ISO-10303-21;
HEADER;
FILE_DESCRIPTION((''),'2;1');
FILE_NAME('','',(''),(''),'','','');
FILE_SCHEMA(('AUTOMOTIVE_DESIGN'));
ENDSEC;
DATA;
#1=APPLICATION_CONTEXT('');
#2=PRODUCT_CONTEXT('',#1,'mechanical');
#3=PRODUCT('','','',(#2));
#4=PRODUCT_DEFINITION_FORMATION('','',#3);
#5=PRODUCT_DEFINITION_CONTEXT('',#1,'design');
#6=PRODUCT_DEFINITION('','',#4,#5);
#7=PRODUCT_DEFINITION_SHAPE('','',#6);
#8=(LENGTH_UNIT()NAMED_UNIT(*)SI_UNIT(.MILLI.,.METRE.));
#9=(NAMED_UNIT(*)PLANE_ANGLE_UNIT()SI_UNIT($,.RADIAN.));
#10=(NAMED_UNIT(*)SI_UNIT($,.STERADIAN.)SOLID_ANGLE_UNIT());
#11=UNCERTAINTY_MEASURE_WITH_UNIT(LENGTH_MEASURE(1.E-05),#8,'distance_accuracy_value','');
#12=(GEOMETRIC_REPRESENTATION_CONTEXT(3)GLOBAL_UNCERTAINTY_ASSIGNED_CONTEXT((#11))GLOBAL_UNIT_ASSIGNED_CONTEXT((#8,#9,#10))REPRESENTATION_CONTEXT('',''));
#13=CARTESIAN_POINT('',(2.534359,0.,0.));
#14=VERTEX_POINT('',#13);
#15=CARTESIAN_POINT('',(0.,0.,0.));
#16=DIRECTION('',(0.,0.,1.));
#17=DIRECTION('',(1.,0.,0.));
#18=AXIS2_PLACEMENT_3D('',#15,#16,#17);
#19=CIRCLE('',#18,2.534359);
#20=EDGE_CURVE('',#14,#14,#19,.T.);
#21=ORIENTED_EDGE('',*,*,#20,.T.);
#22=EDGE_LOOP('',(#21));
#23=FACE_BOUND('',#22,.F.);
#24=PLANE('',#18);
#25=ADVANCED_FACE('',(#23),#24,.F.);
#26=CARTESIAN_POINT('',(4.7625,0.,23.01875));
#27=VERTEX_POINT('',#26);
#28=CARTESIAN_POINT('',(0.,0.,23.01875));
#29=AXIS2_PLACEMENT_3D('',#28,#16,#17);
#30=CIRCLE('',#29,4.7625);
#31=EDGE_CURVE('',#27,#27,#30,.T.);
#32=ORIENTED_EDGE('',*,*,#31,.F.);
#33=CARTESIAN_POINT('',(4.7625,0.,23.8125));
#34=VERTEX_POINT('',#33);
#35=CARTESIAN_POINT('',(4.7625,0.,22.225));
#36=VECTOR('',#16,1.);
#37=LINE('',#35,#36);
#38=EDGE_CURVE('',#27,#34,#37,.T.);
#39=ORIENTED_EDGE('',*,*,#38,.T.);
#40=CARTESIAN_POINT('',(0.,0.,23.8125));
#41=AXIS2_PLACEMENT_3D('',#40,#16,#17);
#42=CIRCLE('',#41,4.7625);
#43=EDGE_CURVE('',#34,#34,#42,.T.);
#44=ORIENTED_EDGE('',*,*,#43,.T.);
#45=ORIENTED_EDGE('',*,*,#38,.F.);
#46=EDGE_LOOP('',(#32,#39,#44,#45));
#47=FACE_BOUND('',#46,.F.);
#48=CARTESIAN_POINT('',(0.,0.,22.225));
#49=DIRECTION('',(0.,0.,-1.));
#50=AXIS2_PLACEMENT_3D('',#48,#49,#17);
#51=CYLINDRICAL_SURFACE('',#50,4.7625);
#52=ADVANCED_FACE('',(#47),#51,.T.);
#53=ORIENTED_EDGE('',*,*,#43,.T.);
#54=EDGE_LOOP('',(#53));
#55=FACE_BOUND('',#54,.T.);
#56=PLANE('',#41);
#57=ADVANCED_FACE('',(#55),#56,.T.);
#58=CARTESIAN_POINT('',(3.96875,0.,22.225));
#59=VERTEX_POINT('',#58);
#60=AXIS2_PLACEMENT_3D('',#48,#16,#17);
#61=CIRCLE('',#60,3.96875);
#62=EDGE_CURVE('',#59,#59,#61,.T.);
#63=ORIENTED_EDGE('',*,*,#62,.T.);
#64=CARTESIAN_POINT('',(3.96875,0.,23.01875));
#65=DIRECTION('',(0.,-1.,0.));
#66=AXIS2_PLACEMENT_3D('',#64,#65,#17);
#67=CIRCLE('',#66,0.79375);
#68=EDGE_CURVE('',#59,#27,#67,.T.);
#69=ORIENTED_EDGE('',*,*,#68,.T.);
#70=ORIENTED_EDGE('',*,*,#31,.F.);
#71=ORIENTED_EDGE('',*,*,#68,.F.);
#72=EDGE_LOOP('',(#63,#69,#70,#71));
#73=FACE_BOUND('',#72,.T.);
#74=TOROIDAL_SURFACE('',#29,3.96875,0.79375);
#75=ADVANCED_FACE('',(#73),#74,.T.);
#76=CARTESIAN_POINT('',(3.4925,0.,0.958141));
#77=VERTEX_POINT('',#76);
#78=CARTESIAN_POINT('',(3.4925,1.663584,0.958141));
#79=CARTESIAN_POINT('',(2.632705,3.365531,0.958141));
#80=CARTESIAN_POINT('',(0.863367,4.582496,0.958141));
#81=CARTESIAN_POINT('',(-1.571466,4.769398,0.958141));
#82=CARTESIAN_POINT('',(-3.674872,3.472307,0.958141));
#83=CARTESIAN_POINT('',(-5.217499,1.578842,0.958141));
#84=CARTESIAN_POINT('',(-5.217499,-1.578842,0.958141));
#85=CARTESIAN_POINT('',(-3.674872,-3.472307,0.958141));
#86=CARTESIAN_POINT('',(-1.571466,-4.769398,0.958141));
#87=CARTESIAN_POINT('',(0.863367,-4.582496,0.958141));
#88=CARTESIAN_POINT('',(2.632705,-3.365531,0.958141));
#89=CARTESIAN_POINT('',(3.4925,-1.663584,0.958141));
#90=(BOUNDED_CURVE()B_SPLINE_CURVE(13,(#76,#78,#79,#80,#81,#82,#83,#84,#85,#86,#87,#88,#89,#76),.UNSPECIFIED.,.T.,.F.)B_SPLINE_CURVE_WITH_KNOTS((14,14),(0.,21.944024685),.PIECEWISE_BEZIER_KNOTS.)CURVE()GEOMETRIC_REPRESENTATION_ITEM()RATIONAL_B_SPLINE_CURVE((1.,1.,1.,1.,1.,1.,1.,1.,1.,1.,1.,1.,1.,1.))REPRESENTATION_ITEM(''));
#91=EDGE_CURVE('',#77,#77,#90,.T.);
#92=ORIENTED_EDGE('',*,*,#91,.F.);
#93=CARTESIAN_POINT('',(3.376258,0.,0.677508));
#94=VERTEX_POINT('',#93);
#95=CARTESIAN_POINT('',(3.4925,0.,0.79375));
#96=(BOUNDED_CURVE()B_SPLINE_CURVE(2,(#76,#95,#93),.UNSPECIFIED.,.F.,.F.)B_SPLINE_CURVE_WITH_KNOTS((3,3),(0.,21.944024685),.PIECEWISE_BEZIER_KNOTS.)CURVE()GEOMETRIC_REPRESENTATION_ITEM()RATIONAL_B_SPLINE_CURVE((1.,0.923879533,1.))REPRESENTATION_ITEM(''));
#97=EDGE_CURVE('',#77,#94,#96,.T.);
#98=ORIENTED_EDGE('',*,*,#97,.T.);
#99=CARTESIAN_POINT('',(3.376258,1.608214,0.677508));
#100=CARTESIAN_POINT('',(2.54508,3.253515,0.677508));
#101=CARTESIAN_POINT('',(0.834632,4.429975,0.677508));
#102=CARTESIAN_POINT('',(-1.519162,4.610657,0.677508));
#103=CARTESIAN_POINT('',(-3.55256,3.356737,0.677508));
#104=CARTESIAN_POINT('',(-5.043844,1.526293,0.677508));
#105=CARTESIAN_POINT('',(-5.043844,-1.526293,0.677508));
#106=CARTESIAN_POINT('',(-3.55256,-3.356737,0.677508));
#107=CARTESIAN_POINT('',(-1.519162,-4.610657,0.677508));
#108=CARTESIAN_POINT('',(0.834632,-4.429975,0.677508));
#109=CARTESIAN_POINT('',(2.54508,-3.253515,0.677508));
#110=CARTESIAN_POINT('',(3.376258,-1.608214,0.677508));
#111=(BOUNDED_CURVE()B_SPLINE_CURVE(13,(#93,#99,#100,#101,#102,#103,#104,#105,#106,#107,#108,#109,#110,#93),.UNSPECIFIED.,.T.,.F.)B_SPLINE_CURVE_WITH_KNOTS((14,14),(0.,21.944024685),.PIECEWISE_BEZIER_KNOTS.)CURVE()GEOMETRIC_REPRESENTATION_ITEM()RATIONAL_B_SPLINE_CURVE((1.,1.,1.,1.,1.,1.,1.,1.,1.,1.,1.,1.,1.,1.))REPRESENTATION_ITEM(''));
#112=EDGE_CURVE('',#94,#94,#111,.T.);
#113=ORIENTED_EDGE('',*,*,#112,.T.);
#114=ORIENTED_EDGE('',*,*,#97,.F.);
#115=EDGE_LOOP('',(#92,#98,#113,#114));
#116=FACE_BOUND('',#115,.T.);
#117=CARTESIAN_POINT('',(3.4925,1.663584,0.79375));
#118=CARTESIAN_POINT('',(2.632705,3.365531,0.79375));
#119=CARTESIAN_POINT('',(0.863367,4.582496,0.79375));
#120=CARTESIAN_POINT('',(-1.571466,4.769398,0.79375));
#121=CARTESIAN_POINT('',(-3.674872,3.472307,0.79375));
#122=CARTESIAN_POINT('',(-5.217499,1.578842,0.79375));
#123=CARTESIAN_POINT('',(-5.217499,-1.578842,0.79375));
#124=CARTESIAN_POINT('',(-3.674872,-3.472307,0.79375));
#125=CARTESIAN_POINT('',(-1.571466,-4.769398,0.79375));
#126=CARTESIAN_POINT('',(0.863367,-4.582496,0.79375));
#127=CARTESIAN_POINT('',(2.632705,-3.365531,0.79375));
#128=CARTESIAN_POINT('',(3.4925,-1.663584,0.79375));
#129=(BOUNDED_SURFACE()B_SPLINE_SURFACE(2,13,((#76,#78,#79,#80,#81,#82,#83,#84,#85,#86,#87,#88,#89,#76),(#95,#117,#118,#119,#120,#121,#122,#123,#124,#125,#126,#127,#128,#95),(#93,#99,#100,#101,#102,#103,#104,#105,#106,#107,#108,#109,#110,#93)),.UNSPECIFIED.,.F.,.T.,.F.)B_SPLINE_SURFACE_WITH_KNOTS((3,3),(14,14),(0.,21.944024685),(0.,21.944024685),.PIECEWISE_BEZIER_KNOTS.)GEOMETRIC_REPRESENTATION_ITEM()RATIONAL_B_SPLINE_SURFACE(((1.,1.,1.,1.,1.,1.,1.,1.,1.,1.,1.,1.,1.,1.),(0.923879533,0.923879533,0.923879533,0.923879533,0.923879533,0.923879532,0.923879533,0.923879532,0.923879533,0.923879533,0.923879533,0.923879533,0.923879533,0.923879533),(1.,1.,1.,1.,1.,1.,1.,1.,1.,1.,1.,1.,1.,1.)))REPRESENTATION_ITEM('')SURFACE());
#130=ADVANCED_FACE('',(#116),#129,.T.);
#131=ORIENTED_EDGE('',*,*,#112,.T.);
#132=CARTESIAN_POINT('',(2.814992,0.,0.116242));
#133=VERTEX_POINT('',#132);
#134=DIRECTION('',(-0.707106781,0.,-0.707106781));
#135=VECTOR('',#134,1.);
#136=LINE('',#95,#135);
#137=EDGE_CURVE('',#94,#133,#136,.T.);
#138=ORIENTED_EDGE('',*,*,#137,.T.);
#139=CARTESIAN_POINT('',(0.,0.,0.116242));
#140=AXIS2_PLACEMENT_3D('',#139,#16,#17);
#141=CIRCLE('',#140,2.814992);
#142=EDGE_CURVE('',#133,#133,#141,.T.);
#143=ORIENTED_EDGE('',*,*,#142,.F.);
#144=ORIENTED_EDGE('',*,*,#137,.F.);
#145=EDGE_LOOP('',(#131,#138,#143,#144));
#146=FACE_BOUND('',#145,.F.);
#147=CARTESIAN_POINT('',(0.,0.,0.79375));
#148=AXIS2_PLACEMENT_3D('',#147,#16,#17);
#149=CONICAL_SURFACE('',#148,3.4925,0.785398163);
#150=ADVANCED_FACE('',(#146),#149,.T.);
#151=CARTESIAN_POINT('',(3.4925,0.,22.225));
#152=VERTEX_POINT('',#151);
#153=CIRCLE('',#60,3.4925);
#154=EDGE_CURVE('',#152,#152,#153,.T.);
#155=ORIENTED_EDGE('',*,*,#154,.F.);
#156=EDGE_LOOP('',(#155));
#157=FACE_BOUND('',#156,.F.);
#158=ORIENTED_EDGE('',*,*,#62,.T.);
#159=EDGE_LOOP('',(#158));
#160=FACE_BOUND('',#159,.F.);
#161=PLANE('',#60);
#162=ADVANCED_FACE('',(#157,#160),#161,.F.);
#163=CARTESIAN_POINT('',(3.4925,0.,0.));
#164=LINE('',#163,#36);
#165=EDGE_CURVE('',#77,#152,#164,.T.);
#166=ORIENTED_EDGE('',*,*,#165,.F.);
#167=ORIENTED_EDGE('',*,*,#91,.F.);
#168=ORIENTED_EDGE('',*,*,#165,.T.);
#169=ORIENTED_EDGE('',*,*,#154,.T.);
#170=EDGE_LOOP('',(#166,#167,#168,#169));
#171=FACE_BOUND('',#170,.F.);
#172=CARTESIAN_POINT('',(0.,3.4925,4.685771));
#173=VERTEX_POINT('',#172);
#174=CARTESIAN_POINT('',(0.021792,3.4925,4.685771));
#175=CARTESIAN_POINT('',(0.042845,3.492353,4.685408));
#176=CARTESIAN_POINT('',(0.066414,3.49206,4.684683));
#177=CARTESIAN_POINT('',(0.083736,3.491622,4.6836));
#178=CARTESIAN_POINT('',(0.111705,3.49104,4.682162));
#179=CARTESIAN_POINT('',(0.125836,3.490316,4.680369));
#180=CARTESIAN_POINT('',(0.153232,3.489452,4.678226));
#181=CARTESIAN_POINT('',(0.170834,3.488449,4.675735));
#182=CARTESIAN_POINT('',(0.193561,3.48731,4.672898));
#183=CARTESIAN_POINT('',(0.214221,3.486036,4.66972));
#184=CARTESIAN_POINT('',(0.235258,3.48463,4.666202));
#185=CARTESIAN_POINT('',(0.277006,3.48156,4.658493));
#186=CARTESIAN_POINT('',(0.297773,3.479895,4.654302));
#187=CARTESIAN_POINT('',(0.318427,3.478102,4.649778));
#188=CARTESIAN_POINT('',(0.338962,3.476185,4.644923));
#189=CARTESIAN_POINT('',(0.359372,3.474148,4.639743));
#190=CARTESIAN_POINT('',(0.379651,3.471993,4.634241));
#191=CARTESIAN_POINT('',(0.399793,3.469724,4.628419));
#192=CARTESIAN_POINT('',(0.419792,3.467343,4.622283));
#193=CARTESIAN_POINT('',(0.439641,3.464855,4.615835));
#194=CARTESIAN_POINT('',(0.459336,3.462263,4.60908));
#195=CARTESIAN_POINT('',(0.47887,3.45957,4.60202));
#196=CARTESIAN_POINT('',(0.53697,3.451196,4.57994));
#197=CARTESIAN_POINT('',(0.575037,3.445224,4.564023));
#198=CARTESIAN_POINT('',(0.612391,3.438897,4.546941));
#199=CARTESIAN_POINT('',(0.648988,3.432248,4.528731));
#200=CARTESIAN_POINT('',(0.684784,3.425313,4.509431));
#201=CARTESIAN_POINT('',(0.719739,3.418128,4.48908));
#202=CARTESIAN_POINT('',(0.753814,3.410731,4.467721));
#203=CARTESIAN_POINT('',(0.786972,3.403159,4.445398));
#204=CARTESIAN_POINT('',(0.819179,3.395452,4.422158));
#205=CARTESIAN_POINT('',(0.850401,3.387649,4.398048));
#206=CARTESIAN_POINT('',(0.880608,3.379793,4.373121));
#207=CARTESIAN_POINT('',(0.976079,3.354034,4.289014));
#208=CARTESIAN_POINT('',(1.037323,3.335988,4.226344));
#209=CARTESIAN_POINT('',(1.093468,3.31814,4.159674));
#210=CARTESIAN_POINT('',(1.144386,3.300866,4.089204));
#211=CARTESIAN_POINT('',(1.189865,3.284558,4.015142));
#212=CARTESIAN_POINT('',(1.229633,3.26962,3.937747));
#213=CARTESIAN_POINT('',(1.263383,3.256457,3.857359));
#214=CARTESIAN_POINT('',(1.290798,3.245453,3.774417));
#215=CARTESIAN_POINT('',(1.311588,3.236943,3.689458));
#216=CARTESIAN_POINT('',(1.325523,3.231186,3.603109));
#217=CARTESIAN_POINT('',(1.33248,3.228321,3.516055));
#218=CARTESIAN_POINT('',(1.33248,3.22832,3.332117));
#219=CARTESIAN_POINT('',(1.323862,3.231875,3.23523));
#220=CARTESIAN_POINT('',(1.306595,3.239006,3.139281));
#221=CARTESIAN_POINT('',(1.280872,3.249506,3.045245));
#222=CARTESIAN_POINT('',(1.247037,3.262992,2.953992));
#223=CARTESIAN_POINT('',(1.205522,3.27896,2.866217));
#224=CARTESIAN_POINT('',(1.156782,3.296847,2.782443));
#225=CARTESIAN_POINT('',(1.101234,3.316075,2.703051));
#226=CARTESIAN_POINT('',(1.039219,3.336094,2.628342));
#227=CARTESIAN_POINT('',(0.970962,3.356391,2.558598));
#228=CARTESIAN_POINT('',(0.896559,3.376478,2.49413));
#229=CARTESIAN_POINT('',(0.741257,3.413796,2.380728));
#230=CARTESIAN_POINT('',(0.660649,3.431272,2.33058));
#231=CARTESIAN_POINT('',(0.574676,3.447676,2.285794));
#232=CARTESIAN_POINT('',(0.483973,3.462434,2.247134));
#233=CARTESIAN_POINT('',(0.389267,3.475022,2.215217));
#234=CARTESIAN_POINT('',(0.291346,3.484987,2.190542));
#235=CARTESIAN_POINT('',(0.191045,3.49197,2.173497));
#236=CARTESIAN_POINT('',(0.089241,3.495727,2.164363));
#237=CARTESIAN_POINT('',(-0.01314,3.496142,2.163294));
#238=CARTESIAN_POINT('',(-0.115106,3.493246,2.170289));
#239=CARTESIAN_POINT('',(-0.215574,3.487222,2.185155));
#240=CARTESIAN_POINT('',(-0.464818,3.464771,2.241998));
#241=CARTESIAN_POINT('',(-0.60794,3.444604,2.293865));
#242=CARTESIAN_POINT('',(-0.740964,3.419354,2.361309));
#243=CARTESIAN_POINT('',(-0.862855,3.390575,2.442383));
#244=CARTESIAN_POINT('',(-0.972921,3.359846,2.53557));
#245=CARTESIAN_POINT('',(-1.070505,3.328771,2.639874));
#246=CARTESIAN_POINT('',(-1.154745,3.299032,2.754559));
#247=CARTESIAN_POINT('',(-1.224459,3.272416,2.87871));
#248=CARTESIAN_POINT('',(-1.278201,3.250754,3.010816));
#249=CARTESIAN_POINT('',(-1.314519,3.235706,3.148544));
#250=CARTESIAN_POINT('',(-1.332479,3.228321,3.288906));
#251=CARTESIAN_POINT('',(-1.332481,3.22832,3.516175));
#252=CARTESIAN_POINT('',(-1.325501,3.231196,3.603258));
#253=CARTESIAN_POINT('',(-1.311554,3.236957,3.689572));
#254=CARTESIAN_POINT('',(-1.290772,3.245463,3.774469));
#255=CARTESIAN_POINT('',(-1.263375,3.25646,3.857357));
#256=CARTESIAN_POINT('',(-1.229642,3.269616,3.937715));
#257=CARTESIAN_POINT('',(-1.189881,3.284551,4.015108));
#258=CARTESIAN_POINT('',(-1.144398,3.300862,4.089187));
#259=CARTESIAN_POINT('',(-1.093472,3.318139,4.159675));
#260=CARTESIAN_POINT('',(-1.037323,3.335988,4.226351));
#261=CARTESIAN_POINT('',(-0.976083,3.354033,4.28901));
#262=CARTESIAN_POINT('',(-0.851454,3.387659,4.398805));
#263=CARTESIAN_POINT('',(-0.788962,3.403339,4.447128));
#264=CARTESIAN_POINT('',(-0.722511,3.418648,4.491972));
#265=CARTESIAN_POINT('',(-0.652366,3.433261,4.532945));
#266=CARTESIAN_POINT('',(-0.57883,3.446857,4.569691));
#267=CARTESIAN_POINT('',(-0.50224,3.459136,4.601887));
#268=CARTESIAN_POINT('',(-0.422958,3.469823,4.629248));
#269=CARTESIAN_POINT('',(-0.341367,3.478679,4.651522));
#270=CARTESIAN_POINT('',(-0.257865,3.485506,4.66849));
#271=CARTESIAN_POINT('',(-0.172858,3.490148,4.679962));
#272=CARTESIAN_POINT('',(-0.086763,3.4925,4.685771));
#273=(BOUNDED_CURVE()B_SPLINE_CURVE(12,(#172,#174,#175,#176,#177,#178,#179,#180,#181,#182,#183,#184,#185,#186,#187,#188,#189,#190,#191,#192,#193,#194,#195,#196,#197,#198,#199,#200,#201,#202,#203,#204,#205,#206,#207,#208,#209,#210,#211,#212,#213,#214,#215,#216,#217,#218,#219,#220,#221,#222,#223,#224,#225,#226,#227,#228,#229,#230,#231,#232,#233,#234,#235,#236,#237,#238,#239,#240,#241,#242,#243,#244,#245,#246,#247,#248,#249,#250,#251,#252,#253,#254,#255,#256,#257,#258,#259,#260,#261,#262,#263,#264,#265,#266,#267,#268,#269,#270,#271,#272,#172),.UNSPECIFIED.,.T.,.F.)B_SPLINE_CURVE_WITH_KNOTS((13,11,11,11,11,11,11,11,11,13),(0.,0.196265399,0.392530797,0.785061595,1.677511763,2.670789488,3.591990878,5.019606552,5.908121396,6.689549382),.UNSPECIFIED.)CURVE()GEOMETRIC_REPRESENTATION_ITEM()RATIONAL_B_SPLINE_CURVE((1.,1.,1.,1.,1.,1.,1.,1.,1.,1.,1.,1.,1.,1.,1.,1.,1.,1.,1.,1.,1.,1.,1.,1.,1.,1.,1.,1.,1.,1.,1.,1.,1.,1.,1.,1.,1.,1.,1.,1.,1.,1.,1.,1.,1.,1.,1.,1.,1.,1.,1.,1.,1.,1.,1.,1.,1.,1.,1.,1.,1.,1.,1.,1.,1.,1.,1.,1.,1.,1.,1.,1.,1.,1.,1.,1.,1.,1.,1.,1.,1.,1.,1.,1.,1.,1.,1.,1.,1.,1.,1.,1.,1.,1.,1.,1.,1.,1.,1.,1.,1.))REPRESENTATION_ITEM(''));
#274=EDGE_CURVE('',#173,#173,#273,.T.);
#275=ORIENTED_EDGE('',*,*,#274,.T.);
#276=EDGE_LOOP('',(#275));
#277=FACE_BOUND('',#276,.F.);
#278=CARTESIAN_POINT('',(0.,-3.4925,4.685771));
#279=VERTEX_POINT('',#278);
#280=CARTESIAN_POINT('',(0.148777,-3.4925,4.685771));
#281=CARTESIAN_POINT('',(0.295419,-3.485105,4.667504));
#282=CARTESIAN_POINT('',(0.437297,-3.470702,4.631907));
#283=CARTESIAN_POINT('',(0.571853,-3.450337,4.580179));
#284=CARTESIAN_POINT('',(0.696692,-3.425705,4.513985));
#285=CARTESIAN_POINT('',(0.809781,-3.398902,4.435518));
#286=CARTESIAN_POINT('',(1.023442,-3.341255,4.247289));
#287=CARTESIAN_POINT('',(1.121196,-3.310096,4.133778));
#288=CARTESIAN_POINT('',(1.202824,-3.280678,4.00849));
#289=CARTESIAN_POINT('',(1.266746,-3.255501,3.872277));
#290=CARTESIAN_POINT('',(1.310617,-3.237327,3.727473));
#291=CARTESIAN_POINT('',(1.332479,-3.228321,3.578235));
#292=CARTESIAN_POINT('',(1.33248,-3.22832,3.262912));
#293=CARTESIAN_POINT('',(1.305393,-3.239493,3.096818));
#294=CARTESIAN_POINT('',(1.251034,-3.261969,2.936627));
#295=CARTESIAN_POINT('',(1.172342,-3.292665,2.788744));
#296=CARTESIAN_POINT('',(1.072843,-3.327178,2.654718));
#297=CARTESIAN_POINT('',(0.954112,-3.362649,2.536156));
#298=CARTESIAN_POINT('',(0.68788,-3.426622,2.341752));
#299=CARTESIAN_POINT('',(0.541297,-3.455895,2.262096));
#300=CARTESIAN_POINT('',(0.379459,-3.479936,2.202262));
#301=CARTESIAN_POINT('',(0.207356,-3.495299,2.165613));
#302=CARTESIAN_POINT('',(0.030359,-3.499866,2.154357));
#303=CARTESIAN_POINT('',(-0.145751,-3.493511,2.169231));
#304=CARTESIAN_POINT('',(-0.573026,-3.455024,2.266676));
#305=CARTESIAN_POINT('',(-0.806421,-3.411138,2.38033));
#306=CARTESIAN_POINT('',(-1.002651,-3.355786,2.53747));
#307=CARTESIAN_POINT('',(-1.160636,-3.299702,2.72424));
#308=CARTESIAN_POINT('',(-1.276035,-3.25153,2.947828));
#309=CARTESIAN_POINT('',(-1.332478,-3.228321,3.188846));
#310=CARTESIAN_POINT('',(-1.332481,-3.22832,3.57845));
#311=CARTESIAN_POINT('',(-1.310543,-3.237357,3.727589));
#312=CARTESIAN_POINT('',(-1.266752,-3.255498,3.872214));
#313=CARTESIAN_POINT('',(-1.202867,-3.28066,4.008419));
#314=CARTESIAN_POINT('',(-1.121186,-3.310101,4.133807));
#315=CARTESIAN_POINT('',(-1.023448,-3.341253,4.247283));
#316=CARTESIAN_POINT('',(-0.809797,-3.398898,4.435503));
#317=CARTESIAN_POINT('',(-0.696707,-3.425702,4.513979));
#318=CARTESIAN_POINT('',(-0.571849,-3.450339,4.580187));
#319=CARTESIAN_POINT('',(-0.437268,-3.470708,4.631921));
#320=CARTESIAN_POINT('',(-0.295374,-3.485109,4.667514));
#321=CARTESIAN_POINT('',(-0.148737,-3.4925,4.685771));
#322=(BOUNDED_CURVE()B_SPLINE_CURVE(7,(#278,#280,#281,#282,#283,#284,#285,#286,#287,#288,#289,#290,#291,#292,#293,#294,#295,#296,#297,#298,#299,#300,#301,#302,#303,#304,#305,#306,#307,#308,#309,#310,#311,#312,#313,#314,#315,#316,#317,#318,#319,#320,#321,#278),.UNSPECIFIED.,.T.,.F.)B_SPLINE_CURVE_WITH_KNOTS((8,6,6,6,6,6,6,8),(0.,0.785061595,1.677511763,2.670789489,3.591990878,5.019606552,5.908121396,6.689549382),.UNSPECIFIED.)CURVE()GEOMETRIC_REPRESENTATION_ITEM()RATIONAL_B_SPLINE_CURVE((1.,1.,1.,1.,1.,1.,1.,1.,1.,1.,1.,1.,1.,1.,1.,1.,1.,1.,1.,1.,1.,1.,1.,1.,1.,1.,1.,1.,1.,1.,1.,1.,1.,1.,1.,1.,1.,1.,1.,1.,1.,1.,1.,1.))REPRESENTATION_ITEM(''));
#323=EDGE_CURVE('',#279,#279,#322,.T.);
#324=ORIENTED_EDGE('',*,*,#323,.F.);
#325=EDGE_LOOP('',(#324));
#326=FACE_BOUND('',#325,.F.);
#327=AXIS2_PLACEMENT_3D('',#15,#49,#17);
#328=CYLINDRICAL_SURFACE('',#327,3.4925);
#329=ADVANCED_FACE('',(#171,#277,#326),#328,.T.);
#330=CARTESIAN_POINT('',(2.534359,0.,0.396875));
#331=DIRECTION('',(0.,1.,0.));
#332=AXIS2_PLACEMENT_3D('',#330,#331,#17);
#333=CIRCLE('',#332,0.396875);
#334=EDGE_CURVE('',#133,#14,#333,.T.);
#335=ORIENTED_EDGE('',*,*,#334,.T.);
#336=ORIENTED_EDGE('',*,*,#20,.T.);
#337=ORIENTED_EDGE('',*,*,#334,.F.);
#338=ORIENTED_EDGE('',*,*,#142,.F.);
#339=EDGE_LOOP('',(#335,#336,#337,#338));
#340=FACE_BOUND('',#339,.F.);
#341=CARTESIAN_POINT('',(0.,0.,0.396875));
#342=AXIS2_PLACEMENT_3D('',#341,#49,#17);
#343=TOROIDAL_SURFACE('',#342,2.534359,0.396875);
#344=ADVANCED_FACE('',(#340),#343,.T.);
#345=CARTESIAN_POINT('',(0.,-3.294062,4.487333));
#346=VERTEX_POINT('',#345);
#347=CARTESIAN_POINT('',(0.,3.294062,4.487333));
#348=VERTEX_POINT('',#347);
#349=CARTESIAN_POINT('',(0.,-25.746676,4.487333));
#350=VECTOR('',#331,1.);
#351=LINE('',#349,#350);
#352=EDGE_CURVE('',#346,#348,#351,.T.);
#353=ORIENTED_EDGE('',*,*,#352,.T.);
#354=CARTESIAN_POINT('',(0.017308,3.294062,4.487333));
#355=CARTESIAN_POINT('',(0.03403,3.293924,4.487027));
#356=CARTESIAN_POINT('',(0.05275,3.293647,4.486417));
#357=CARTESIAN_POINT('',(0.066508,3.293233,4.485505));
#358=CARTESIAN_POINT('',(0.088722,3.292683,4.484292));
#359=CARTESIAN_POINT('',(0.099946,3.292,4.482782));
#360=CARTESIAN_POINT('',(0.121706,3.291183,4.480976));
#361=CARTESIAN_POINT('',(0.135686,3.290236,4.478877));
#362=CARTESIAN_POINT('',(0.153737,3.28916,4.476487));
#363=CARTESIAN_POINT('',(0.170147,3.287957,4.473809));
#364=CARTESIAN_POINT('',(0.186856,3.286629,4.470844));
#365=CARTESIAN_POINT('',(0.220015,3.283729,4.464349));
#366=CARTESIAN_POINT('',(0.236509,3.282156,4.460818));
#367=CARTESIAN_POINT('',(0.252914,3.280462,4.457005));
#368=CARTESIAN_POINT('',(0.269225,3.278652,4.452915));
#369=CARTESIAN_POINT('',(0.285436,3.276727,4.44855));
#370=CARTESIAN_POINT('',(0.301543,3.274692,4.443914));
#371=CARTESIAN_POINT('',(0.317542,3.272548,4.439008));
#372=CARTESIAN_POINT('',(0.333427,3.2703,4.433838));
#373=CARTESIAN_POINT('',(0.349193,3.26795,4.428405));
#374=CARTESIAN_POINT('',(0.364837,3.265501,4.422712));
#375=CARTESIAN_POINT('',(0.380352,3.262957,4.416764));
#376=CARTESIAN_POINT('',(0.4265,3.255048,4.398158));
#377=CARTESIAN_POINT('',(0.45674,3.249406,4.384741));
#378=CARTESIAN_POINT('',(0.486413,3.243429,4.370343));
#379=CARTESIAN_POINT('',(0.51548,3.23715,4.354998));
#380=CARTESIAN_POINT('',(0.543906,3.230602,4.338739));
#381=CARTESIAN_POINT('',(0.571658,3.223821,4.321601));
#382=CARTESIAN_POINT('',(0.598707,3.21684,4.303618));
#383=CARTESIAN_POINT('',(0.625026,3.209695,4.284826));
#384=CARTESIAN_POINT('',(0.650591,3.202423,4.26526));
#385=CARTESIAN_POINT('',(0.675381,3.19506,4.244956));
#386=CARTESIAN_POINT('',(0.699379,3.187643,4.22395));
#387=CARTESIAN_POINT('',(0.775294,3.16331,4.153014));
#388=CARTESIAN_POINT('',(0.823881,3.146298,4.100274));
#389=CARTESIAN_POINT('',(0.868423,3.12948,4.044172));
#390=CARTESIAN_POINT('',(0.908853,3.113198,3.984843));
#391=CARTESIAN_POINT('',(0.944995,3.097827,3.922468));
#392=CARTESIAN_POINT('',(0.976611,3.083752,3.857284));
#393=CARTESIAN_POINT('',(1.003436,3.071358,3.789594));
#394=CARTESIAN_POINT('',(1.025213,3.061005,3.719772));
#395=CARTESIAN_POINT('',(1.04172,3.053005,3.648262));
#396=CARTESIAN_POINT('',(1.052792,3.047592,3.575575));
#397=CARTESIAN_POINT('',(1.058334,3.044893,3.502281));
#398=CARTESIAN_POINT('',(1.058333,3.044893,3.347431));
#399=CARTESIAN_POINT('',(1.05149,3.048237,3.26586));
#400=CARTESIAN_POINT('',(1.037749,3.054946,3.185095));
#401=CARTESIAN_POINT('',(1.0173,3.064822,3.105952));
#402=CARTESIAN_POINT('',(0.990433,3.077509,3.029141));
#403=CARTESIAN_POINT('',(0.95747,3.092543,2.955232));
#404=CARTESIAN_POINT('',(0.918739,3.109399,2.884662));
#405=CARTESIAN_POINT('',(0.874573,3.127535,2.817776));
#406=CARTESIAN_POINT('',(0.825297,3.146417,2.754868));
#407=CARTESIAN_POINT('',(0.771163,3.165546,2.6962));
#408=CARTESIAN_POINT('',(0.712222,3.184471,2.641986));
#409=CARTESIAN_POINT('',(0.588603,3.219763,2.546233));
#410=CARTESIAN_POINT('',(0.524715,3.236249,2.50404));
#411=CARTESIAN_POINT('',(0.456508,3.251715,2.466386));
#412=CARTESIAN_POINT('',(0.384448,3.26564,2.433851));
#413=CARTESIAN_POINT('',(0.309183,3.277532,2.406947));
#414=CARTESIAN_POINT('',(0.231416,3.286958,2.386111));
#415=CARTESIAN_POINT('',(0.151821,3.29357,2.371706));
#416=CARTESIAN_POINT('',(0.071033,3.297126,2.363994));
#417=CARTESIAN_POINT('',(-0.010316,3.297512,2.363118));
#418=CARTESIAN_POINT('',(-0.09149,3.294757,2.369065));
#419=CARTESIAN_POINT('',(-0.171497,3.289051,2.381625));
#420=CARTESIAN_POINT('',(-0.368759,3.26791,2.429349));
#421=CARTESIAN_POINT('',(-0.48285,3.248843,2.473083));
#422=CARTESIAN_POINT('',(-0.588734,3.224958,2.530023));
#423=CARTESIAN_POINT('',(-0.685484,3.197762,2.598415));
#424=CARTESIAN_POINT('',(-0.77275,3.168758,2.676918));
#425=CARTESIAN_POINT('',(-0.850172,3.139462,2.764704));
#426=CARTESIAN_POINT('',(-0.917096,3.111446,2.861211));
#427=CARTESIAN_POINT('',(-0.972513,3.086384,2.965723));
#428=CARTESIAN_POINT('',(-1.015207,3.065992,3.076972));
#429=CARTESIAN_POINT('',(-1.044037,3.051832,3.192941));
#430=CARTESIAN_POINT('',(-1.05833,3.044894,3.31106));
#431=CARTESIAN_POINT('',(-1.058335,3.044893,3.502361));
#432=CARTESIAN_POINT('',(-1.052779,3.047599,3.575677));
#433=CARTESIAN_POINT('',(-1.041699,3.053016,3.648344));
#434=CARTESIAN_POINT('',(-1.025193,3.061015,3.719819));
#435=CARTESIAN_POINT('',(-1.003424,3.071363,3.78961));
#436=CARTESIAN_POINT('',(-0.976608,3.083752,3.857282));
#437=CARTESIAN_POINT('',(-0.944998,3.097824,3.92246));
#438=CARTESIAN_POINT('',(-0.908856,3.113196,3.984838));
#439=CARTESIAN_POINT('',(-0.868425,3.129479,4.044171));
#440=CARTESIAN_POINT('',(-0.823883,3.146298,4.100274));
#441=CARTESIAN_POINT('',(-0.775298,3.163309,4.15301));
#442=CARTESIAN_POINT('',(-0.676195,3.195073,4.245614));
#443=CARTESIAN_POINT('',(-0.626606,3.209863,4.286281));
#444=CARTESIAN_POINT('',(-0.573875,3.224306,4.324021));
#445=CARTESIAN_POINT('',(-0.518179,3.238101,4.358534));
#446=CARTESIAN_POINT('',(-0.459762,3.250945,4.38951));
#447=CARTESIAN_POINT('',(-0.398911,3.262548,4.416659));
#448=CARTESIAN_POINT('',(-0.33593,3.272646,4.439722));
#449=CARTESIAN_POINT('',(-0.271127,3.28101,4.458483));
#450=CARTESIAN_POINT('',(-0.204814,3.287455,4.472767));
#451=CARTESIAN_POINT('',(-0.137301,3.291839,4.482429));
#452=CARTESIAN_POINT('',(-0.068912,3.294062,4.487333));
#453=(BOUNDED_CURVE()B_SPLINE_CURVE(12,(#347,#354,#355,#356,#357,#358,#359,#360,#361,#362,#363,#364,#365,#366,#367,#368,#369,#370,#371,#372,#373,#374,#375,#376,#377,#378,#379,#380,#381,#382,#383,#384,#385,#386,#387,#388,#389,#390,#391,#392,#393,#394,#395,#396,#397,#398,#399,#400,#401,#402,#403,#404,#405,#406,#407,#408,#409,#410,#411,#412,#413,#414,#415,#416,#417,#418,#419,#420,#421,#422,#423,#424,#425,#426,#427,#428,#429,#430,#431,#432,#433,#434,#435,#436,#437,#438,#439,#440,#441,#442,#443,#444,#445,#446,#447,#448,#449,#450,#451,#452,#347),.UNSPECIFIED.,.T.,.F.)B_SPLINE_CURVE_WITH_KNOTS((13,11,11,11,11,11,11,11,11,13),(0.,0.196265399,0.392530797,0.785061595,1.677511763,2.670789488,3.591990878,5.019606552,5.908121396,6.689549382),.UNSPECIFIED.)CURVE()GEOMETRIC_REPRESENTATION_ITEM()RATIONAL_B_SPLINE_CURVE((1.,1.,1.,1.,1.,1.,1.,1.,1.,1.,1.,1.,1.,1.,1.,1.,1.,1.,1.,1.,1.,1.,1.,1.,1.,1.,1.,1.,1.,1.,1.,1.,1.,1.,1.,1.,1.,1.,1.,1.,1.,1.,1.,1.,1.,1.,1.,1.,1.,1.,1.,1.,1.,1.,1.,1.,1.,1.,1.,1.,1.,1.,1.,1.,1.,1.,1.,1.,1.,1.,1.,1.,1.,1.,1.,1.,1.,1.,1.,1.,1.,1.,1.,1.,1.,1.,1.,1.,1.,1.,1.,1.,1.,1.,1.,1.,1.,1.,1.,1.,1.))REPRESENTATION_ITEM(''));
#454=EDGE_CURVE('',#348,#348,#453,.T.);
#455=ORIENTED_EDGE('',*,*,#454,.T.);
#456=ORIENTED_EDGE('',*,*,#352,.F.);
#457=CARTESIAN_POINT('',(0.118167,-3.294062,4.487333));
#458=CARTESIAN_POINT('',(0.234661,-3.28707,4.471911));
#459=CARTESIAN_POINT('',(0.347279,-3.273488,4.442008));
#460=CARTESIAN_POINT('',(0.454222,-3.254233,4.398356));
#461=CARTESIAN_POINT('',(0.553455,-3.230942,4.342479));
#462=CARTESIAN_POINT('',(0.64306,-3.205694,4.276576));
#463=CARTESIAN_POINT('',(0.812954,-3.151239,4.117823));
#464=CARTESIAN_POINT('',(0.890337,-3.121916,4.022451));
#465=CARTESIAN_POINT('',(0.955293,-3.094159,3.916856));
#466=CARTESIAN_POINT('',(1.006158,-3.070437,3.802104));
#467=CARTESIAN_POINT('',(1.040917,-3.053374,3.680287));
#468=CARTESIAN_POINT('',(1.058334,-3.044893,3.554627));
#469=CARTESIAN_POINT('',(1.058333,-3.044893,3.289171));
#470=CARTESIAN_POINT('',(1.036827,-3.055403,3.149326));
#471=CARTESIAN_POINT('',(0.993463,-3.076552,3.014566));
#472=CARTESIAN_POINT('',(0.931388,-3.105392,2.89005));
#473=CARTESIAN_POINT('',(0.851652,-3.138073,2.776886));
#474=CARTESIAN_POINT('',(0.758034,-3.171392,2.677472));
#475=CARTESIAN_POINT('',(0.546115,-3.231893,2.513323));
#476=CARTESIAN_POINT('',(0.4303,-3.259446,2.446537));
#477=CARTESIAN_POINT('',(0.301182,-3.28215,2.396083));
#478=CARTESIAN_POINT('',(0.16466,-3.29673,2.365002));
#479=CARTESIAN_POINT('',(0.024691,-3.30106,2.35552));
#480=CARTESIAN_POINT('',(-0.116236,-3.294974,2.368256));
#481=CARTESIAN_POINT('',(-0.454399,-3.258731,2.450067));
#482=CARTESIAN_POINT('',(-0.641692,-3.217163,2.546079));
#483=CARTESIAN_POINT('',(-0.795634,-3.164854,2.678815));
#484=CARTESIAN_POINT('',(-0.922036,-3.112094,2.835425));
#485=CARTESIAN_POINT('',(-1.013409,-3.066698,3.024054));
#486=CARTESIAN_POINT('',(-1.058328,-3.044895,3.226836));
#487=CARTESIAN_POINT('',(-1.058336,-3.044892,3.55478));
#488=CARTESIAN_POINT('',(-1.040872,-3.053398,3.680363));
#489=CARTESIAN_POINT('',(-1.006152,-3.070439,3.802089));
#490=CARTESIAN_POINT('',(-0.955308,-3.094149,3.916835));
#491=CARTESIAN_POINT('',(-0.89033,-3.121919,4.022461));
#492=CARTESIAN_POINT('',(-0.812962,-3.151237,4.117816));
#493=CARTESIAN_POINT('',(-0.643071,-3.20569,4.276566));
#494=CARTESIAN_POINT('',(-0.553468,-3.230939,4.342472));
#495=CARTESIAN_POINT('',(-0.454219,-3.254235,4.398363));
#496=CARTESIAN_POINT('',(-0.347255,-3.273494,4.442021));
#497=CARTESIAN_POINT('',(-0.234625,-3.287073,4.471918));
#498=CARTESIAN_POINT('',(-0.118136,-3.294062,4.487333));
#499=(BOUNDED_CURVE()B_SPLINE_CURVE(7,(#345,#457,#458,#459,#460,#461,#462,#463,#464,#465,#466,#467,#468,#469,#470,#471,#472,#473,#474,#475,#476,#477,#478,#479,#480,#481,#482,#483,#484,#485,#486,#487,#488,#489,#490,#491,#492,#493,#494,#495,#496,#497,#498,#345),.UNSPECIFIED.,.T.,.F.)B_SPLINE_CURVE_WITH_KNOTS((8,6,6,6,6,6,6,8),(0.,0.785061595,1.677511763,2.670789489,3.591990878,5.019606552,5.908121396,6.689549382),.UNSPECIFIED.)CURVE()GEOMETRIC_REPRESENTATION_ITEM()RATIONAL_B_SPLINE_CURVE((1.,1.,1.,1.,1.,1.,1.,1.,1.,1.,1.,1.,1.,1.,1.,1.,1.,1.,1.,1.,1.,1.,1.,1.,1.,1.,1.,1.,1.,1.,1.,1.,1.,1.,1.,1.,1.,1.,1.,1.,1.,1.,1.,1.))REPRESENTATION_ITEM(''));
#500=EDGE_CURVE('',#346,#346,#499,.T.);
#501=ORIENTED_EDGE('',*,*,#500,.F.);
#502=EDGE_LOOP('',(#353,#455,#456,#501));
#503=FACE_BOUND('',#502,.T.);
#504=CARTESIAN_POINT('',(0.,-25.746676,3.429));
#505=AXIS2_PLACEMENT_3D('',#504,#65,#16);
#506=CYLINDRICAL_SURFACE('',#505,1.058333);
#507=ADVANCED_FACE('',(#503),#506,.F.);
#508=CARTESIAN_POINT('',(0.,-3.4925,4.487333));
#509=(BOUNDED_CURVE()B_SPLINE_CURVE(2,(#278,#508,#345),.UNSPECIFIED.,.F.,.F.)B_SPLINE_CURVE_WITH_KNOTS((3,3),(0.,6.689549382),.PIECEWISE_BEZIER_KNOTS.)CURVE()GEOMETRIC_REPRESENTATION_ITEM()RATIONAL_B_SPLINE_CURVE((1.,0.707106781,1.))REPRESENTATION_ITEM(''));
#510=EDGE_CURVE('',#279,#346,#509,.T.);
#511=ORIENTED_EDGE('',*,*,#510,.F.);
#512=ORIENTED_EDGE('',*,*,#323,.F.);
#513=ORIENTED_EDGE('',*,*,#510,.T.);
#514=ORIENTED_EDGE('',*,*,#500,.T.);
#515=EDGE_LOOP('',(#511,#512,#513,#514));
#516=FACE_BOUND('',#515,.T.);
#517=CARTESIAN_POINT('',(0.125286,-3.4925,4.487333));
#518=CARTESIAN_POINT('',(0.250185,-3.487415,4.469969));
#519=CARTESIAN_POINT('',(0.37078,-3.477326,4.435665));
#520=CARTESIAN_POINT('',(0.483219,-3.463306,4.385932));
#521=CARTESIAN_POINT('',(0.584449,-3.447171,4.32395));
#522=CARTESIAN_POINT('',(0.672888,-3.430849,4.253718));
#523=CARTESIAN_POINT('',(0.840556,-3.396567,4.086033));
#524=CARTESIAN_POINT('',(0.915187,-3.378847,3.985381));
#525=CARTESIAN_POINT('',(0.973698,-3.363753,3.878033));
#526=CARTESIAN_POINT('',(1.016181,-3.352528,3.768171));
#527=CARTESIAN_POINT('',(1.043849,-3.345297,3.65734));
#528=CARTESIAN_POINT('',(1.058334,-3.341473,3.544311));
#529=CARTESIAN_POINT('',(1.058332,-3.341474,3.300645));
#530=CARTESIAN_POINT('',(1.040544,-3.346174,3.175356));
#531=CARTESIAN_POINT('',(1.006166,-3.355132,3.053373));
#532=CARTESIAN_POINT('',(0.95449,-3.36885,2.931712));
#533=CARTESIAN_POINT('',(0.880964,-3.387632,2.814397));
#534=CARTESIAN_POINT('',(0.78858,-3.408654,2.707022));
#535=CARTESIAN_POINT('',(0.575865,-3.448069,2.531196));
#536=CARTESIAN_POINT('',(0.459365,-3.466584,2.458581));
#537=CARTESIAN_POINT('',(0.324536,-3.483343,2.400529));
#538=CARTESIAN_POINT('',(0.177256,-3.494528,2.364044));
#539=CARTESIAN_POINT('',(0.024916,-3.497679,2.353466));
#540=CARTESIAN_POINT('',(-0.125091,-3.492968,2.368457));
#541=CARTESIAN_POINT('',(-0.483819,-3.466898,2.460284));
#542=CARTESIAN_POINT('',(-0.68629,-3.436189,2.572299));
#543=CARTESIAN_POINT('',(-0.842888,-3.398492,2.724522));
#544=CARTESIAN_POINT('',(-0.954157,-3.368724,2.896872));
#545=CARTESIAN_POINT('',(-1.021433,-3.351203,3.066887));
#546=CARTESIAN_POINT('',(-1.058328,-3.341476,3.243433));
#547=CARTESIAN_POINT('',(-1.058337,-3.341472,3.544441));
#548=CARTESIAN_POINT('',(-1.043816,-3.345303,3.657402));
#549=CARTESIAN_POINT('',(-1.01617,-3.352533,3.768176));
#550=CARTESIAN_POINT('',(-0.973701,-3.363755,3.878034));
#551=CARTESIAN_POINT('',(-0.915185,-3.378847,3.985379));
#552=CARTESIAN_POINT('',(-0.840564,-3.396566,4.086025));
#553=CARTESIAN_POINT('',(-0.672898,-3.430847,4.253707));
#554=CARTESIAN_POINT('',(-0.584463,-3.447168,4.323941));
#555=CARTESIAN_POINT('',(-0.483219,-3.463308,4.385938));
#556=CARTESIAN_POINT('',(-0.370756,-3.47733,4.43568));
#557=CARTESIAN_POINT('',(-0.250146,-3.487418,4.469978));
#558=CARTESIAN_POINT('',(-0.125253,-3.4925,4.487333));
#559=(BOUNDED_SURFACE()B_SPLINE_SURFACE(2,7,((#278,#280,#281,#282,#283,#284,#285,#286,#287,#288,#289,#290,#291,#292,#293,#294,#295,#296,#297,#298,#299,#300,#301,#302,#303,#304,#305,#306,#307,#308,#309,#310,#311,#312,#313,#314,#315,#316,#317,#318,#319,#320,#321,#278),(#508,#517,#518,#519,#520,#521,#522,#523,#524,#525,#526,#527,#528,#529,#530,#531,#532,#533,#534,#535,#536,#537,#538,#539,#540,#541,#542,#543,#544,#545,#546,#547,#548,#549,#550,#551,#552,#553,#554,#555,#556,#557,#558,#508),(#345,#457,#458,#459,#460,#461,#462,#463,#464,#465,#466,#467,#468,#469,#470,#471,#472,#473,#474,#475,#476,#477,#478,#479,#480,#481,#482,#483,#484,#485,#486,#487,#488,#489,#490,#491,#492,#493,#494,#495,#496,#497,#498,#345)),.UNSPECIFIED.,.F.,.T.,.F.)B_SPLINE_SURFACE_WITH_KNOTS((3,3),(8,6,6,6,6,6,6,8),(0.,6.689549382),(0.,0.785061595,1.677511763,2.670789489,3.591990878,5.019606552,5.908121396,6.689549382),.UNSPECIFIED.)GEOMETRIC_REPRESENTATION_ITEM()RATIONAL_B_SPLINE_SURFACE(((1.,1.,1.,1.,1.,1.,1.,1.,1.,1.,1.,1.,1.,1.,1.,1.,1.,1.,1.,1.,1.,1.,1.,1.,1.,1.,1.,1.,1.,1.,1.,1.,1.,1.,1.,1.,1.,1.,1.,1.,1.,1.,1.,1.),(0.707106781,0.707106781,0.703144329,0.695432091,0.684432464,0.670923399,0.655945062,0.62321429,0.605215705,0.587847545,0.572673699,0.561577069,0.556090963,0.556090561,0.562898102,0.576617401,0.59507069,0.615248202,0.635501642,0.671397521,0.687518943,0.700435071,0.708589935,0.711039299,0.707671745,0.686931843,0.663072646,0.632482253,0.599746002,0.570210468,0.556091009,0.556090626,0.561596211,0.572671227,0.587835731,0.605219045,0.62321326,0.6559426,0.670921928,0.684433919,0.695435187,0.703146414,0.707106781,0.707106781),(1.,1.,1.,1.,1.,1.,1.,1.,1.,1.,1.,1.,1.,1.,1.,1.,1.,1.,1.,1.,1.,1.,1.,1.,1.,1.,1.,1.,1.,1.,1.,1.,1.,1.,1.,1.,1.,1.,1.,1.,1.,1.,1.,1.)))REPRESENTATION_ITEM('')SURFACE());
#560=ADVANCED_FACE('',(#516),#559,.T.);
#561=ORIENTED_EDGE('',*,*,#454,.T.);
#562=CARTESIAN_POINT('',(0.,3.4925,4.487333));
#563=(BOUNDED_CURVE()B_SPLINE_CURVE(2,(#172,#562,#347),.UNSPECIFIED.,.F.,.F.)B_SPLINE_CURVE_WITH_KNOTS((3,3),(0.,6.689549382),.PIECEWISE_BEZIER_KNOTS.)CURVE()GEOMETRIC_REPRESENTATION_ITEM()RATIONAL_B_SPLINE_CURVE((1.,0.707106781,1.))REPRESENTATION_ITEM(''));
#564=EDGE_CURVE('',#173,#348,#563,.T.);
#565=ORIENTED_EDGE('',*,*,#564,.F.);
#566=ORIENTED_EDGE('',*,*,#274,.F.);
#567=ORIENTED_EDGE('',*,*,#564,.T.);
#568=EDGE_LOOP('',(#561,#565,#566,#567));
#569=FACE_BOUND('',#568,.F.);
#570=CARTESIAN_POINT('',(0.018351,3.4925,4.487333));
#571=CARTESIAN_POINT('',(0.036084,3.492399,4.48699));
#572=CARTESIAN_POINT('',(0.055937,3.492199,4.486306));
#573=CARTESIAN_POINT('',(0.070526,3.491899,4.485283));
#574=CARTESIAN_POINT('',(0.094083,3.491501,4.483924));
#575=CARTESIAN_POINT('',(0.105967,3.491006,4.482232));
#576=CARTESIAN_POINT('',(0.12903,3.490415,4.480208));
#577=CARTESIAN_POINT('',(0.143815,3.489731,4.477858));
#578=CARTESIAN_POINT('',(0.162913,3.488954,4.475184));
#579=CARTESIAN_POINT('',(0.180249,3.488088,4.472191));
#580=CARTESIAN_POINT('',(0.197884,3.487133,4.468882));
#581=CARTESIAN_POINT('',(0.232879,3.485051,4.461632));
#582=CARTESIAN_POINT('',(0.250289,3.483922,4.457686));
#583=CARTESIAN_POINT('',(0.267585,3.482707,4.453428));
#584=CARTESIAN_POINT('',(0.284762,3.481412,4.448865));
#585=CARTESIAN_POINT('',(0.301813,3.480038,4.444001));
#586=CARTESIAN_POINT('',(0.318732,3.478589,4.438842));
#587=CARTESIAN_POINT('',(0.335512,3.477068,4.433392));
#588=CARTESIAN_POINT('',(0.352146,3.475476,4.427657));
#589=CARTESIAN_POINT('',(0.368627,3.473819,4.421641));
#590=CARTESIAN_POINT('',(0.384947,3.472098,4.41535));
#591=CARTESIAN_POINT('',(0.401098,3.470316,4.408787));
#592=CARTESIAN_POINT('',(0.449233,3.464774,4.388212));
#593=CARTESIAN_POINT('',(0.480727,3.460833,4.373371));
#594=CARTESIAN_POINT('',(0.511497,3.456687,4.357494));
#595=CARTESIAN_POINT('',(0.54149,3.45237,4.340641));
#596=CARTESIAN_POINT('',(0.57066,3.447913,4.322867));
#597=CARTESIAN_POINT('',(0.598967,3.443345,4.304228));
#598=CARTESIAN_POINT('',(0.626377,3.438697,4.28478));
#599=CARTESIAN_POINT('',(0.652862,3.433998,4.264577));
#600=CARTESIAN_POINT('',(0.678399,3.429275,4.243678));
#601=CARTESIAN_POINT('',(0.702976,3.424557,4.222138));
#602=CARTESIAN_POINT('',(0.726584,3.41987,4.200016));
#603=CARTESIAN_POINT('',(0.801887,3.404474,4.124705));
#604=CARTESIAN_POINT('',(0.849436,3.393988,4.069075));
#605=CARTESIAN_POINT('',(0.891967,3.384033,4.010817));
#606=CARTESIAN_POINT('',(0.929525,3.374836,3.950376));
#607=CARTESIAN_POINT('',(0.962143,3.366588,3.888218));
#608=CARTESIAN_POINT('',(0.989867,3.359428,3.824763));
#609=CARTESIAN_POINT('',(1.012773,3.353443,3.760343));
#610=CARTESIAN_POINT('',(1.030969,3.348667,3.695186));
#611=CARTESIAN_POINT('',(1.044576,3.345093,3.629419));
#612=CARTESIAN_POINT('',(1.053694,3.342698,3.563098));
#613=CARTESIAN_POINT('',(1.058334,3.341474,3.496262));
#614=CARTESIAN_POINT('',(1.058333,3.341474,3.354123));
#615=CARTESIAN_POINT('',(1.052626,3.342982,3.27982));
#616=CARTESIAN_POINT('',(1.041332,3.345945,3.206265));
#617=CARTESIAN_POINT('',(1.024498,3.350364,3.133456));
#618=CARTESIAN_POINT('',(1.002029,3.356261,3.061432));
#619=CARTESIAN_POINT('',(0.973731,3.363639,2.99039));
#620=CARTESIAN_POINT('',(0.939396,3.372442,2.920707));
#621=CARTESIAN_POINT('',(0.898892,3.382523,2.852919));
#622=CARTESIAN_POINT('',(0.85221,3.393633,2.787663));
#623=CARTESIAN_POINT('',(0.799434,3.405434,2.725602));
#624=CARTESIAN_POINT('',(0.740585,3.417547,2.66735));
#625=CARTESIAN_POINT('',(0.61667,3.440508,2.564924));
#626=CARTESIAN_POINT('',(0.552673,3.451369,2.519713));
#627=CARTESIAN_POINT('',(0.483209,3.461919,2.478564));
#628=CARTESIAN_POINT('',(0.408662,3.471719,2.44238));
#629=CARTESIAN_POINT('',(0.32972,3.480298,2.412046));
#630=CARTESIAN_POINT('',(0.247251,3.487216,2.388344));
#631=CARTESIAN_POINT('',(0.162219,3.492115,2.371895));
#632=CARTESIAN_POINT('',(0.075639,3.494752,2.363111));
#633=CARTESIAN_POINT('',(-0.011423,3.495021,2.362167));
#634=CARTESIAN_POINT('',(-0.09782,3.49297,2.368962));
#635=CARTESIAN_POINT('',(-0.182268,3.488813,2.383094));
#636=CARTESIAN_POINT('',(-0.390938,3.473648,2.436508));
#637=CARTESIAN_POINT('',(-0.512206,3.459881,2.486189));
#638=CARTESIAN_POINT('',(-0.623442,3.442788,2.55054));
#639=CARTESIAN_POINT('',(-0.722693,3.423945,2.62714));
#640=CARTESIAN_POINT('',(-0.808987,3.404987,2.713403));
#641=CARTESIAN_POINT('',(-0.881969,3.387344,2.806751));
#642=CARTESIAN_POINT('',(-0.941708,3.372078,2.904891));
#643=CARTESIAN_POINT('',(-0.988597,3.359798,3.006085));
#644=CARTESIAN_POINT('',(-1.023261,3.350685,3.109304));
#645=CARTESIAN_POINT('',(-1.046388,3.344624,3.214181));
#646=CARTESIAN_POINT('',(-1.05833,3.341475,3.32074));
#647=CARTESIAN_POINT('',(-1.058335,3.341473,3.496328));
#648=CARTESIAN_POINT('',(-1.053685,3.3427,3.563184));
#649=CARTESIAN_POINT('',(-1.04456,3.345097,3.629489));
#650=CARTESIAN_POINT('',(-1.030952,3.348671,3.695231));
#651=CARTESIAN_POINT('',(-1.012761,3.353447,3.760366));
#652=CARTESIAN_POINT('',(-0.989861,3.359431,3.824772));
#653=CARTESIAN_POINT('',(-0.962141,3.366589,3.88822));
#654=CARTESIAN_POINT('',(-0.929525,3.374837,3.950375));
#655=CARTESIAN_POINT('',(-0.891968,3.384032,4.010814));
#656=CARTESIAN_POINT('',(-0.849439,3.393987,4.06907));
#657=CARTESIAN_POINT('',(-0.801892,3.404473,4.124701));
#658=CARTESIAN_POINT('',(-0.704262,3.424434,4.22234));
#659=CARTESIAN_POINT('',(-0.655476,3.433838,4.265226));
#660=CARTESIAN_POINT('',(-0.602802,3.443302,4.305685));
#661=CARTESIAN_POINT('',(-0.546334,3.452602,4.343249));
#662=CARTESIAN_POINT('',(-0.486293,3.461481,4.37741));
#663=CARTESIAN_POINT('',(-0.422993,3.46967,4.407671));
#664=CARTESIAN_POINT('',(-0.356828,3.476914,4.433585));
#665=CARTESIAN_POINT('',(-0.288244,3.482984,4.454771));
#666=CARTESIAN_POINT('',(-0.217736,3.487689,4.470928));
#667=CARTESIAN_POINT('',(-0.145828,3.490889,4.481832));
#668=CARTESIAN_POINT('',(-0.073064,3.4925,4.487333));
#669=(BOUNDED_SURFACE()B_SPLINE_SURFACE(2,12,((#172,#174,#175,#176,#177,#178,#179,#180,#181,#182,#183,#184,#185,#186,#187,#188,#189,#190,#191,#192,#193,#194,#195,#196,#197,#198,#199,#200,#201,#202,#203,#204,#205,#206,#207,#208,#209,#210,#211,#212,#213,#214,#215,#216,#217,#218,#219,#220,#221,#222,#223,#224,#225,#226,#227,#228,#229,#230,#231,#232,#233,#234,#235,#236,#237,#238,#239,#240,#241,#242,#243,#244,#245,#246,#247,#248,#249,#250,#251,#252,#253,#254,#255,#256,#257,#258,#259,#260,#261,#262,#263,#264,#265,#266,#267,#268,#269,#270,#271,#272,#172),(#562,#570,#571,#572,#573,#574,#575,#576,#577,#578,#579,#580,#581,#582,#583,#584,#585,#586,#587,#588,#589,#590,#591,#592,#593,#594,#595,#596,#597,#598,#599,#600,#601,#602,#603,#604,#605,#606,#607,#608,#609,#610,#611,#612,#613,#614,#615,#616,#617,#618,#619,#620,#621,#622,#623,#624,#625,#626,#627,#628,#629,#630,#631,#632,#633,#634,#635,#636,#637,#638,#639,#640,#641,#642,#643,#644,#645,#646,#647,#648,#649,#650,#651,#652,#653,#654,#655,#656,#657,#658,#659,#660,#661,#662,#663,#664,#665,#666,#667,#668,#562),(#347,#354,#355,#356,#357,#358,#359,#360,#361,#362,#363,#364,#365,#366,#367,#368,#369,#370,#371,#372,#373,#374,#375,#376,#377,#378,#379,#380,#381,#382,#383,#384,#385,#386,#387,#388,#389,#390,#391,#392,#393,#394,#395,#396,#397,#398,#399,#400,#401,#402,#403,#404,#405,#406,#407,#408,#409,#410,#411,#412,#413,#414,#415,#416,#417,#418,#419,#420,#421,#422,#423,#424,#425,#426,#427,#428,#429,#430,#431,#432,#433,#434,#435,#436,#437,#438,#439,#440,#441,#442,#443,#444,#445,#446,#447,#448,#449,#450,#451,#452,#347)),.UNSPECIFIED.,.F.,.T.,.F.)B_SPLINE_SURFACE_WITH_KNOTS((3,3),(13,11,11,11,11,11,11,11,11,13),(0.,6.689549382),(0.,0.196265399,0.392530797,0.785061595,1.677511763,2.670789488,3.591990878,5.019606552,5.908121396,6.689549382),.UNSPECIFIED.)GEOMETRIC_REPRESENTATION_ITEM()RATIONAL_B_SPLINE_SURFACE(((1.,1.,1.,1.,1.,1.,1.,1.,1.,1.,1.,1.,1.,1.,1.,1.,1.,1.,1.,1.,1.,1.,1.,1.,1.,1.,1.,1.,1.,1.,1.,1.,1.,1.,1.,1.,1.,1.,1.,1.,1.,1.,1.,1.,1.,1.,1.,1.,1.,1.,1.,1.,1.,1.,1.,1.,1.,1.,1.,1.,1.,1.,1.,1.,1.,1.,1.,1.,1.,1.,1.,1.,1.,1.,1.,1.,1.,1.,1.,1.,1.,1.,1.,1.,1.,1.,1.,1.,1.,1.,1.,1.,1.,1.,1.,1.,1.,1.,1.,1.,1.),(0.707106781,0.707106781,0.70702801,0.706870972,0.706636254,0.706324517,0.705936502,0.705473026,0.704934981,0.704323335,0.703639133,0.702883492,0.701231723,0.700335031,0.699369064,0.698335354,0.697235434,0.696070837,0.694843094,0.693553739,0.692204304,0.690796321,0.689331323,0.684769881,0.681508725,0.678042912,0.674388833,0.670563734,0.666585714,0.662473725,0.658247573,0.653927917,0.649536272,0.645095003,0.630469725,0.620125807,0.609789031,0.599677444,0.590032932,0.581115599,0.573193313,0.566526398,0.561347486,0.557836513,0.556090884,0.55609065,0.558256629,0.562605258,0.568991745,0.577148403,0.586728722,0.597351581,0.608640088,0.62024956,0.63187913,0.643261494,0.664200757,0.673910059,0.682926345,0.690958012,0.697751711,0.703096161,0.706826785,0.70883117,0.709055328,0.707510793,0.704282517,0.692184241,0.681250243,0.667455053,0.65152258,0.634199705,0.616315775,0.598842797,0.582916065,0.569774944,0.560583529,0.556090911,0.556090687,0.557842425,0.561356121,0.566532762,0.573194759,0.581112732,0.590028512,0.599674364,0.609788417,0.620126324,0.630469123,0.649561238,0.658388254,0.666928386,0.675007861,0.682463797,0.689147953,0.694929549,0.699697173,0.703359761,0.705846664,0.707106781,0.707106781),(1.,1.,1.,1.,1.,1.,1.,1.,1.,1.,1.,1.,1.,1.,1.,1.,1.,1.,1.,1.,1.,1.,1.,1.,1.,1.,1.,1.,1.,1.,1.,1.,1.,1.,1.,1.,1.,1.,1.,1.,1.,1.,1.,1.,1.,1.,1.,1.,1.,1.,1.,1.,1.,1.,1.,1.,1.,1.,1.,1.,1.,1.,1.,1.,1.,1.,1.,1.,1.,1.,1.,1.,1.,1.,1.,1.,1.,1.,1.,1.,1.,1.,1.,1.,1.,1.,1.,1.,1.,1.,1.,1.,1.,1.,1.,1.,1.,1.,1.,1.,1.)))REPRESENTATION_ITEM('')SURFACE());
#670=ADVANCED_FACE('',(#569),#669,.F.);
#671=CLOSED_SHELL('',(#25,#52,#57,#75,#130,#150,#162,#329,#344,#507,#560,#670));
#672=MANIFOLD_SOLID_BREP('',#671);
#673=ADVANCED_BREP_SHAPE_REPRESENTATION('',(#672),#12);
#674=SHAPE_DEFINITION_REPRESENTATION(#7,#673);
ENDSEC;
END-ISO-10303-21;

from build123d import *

# Parameters (mm, degrees)
SKETCH1_R               = 3.4925
BOSS_EXTRUDE1_DEPTH     = 22.225
SKETCH2_R               = 4.7625
BOSS_EXTRUDE2_DEPTH     = 1.5875
CUT_EXTRUDE1_DEPTH      = 25.746675913
CUT_EXTRUDE1_DEPTH_BACK = 25.746675913
SKETCH3_R               = 1.058333333
FILLET1_R               = 0.1984375
FILLET3_R               = 0.79375
CHAMFER1_SIZE           = 0.79375
FILLET4_R               = 0.396875


with BuildPart() as part:
    # Sketch1 → Boss-Extrude1 (new body)
    with BuildSketch(Plane.XY):
        Circle(SKETCH1_R)
    extrude(amount=BOSS_EXTRUDE1_DEPTH)

    # Sketch2 → Boss-Extrude2 (add)
    with BuildSketch(Plane.XY.offset(22.225)):
        Circle(SKETCH2_R)
    extrude(amount=BOSS_EXTRUDE2_DEPTH)

    # Sketch3 → Cut-Extrude1 (cut, two sides: drawn at the far end of the back side and taken through both)
    with BuildSketch(Plane(origin=(0, 0, 0), x_dir=(1, 0, 0), z_dir=(0, 1, 0)).offset(-CUT_EXTRUDE1_DEPTH_BACK)):
        with Locations(Location((0, -3.429, 0), (0, 0, 270))):
            Circle(SKETCH3_R)
    extrude(amount=CUT_EXTRUDE1_DEPTH + CUT_EXTRUDE1_DEPTH_BACK, mode=Mode.SUBTRACT)

    # Fillet1
    fillet1_edges = [part.edges().sort_by_distance(p)[0] for p in [
        (0, 3.492500015, 2.370666678),
        (0, -3.492500015, 2.370666678),
    ]]
    fillet(fillet1_edges, radius=FILLET1_R)

    # Fillet3
    fillet3_edges = [part.edges().sort_by_distance(p)[0] for p in [
        (-4.7625, 0, 22.225),
    ]]
    fillet(fillet3_edges, radius=FILLET3_R)

    # Chamfer1
    chamfer1_edges = [part.edges().sort_by_distance(p)[0] for p in [
        (-3.4925, 0, 0),
    ]]
    chamfer(chamfer1_edges, length=CHAMFER1_SIZE)

    # Fillet4
    fillet4_edges = [part.edges().sort_by_distance(p)[0] for p in [
        (-3.4925, 0, 0.79375),
        (-2.69875, 0, 0),
    ]]
    fillet(fillet4_edges, radius=FILLET4_R)


solid = part.part
